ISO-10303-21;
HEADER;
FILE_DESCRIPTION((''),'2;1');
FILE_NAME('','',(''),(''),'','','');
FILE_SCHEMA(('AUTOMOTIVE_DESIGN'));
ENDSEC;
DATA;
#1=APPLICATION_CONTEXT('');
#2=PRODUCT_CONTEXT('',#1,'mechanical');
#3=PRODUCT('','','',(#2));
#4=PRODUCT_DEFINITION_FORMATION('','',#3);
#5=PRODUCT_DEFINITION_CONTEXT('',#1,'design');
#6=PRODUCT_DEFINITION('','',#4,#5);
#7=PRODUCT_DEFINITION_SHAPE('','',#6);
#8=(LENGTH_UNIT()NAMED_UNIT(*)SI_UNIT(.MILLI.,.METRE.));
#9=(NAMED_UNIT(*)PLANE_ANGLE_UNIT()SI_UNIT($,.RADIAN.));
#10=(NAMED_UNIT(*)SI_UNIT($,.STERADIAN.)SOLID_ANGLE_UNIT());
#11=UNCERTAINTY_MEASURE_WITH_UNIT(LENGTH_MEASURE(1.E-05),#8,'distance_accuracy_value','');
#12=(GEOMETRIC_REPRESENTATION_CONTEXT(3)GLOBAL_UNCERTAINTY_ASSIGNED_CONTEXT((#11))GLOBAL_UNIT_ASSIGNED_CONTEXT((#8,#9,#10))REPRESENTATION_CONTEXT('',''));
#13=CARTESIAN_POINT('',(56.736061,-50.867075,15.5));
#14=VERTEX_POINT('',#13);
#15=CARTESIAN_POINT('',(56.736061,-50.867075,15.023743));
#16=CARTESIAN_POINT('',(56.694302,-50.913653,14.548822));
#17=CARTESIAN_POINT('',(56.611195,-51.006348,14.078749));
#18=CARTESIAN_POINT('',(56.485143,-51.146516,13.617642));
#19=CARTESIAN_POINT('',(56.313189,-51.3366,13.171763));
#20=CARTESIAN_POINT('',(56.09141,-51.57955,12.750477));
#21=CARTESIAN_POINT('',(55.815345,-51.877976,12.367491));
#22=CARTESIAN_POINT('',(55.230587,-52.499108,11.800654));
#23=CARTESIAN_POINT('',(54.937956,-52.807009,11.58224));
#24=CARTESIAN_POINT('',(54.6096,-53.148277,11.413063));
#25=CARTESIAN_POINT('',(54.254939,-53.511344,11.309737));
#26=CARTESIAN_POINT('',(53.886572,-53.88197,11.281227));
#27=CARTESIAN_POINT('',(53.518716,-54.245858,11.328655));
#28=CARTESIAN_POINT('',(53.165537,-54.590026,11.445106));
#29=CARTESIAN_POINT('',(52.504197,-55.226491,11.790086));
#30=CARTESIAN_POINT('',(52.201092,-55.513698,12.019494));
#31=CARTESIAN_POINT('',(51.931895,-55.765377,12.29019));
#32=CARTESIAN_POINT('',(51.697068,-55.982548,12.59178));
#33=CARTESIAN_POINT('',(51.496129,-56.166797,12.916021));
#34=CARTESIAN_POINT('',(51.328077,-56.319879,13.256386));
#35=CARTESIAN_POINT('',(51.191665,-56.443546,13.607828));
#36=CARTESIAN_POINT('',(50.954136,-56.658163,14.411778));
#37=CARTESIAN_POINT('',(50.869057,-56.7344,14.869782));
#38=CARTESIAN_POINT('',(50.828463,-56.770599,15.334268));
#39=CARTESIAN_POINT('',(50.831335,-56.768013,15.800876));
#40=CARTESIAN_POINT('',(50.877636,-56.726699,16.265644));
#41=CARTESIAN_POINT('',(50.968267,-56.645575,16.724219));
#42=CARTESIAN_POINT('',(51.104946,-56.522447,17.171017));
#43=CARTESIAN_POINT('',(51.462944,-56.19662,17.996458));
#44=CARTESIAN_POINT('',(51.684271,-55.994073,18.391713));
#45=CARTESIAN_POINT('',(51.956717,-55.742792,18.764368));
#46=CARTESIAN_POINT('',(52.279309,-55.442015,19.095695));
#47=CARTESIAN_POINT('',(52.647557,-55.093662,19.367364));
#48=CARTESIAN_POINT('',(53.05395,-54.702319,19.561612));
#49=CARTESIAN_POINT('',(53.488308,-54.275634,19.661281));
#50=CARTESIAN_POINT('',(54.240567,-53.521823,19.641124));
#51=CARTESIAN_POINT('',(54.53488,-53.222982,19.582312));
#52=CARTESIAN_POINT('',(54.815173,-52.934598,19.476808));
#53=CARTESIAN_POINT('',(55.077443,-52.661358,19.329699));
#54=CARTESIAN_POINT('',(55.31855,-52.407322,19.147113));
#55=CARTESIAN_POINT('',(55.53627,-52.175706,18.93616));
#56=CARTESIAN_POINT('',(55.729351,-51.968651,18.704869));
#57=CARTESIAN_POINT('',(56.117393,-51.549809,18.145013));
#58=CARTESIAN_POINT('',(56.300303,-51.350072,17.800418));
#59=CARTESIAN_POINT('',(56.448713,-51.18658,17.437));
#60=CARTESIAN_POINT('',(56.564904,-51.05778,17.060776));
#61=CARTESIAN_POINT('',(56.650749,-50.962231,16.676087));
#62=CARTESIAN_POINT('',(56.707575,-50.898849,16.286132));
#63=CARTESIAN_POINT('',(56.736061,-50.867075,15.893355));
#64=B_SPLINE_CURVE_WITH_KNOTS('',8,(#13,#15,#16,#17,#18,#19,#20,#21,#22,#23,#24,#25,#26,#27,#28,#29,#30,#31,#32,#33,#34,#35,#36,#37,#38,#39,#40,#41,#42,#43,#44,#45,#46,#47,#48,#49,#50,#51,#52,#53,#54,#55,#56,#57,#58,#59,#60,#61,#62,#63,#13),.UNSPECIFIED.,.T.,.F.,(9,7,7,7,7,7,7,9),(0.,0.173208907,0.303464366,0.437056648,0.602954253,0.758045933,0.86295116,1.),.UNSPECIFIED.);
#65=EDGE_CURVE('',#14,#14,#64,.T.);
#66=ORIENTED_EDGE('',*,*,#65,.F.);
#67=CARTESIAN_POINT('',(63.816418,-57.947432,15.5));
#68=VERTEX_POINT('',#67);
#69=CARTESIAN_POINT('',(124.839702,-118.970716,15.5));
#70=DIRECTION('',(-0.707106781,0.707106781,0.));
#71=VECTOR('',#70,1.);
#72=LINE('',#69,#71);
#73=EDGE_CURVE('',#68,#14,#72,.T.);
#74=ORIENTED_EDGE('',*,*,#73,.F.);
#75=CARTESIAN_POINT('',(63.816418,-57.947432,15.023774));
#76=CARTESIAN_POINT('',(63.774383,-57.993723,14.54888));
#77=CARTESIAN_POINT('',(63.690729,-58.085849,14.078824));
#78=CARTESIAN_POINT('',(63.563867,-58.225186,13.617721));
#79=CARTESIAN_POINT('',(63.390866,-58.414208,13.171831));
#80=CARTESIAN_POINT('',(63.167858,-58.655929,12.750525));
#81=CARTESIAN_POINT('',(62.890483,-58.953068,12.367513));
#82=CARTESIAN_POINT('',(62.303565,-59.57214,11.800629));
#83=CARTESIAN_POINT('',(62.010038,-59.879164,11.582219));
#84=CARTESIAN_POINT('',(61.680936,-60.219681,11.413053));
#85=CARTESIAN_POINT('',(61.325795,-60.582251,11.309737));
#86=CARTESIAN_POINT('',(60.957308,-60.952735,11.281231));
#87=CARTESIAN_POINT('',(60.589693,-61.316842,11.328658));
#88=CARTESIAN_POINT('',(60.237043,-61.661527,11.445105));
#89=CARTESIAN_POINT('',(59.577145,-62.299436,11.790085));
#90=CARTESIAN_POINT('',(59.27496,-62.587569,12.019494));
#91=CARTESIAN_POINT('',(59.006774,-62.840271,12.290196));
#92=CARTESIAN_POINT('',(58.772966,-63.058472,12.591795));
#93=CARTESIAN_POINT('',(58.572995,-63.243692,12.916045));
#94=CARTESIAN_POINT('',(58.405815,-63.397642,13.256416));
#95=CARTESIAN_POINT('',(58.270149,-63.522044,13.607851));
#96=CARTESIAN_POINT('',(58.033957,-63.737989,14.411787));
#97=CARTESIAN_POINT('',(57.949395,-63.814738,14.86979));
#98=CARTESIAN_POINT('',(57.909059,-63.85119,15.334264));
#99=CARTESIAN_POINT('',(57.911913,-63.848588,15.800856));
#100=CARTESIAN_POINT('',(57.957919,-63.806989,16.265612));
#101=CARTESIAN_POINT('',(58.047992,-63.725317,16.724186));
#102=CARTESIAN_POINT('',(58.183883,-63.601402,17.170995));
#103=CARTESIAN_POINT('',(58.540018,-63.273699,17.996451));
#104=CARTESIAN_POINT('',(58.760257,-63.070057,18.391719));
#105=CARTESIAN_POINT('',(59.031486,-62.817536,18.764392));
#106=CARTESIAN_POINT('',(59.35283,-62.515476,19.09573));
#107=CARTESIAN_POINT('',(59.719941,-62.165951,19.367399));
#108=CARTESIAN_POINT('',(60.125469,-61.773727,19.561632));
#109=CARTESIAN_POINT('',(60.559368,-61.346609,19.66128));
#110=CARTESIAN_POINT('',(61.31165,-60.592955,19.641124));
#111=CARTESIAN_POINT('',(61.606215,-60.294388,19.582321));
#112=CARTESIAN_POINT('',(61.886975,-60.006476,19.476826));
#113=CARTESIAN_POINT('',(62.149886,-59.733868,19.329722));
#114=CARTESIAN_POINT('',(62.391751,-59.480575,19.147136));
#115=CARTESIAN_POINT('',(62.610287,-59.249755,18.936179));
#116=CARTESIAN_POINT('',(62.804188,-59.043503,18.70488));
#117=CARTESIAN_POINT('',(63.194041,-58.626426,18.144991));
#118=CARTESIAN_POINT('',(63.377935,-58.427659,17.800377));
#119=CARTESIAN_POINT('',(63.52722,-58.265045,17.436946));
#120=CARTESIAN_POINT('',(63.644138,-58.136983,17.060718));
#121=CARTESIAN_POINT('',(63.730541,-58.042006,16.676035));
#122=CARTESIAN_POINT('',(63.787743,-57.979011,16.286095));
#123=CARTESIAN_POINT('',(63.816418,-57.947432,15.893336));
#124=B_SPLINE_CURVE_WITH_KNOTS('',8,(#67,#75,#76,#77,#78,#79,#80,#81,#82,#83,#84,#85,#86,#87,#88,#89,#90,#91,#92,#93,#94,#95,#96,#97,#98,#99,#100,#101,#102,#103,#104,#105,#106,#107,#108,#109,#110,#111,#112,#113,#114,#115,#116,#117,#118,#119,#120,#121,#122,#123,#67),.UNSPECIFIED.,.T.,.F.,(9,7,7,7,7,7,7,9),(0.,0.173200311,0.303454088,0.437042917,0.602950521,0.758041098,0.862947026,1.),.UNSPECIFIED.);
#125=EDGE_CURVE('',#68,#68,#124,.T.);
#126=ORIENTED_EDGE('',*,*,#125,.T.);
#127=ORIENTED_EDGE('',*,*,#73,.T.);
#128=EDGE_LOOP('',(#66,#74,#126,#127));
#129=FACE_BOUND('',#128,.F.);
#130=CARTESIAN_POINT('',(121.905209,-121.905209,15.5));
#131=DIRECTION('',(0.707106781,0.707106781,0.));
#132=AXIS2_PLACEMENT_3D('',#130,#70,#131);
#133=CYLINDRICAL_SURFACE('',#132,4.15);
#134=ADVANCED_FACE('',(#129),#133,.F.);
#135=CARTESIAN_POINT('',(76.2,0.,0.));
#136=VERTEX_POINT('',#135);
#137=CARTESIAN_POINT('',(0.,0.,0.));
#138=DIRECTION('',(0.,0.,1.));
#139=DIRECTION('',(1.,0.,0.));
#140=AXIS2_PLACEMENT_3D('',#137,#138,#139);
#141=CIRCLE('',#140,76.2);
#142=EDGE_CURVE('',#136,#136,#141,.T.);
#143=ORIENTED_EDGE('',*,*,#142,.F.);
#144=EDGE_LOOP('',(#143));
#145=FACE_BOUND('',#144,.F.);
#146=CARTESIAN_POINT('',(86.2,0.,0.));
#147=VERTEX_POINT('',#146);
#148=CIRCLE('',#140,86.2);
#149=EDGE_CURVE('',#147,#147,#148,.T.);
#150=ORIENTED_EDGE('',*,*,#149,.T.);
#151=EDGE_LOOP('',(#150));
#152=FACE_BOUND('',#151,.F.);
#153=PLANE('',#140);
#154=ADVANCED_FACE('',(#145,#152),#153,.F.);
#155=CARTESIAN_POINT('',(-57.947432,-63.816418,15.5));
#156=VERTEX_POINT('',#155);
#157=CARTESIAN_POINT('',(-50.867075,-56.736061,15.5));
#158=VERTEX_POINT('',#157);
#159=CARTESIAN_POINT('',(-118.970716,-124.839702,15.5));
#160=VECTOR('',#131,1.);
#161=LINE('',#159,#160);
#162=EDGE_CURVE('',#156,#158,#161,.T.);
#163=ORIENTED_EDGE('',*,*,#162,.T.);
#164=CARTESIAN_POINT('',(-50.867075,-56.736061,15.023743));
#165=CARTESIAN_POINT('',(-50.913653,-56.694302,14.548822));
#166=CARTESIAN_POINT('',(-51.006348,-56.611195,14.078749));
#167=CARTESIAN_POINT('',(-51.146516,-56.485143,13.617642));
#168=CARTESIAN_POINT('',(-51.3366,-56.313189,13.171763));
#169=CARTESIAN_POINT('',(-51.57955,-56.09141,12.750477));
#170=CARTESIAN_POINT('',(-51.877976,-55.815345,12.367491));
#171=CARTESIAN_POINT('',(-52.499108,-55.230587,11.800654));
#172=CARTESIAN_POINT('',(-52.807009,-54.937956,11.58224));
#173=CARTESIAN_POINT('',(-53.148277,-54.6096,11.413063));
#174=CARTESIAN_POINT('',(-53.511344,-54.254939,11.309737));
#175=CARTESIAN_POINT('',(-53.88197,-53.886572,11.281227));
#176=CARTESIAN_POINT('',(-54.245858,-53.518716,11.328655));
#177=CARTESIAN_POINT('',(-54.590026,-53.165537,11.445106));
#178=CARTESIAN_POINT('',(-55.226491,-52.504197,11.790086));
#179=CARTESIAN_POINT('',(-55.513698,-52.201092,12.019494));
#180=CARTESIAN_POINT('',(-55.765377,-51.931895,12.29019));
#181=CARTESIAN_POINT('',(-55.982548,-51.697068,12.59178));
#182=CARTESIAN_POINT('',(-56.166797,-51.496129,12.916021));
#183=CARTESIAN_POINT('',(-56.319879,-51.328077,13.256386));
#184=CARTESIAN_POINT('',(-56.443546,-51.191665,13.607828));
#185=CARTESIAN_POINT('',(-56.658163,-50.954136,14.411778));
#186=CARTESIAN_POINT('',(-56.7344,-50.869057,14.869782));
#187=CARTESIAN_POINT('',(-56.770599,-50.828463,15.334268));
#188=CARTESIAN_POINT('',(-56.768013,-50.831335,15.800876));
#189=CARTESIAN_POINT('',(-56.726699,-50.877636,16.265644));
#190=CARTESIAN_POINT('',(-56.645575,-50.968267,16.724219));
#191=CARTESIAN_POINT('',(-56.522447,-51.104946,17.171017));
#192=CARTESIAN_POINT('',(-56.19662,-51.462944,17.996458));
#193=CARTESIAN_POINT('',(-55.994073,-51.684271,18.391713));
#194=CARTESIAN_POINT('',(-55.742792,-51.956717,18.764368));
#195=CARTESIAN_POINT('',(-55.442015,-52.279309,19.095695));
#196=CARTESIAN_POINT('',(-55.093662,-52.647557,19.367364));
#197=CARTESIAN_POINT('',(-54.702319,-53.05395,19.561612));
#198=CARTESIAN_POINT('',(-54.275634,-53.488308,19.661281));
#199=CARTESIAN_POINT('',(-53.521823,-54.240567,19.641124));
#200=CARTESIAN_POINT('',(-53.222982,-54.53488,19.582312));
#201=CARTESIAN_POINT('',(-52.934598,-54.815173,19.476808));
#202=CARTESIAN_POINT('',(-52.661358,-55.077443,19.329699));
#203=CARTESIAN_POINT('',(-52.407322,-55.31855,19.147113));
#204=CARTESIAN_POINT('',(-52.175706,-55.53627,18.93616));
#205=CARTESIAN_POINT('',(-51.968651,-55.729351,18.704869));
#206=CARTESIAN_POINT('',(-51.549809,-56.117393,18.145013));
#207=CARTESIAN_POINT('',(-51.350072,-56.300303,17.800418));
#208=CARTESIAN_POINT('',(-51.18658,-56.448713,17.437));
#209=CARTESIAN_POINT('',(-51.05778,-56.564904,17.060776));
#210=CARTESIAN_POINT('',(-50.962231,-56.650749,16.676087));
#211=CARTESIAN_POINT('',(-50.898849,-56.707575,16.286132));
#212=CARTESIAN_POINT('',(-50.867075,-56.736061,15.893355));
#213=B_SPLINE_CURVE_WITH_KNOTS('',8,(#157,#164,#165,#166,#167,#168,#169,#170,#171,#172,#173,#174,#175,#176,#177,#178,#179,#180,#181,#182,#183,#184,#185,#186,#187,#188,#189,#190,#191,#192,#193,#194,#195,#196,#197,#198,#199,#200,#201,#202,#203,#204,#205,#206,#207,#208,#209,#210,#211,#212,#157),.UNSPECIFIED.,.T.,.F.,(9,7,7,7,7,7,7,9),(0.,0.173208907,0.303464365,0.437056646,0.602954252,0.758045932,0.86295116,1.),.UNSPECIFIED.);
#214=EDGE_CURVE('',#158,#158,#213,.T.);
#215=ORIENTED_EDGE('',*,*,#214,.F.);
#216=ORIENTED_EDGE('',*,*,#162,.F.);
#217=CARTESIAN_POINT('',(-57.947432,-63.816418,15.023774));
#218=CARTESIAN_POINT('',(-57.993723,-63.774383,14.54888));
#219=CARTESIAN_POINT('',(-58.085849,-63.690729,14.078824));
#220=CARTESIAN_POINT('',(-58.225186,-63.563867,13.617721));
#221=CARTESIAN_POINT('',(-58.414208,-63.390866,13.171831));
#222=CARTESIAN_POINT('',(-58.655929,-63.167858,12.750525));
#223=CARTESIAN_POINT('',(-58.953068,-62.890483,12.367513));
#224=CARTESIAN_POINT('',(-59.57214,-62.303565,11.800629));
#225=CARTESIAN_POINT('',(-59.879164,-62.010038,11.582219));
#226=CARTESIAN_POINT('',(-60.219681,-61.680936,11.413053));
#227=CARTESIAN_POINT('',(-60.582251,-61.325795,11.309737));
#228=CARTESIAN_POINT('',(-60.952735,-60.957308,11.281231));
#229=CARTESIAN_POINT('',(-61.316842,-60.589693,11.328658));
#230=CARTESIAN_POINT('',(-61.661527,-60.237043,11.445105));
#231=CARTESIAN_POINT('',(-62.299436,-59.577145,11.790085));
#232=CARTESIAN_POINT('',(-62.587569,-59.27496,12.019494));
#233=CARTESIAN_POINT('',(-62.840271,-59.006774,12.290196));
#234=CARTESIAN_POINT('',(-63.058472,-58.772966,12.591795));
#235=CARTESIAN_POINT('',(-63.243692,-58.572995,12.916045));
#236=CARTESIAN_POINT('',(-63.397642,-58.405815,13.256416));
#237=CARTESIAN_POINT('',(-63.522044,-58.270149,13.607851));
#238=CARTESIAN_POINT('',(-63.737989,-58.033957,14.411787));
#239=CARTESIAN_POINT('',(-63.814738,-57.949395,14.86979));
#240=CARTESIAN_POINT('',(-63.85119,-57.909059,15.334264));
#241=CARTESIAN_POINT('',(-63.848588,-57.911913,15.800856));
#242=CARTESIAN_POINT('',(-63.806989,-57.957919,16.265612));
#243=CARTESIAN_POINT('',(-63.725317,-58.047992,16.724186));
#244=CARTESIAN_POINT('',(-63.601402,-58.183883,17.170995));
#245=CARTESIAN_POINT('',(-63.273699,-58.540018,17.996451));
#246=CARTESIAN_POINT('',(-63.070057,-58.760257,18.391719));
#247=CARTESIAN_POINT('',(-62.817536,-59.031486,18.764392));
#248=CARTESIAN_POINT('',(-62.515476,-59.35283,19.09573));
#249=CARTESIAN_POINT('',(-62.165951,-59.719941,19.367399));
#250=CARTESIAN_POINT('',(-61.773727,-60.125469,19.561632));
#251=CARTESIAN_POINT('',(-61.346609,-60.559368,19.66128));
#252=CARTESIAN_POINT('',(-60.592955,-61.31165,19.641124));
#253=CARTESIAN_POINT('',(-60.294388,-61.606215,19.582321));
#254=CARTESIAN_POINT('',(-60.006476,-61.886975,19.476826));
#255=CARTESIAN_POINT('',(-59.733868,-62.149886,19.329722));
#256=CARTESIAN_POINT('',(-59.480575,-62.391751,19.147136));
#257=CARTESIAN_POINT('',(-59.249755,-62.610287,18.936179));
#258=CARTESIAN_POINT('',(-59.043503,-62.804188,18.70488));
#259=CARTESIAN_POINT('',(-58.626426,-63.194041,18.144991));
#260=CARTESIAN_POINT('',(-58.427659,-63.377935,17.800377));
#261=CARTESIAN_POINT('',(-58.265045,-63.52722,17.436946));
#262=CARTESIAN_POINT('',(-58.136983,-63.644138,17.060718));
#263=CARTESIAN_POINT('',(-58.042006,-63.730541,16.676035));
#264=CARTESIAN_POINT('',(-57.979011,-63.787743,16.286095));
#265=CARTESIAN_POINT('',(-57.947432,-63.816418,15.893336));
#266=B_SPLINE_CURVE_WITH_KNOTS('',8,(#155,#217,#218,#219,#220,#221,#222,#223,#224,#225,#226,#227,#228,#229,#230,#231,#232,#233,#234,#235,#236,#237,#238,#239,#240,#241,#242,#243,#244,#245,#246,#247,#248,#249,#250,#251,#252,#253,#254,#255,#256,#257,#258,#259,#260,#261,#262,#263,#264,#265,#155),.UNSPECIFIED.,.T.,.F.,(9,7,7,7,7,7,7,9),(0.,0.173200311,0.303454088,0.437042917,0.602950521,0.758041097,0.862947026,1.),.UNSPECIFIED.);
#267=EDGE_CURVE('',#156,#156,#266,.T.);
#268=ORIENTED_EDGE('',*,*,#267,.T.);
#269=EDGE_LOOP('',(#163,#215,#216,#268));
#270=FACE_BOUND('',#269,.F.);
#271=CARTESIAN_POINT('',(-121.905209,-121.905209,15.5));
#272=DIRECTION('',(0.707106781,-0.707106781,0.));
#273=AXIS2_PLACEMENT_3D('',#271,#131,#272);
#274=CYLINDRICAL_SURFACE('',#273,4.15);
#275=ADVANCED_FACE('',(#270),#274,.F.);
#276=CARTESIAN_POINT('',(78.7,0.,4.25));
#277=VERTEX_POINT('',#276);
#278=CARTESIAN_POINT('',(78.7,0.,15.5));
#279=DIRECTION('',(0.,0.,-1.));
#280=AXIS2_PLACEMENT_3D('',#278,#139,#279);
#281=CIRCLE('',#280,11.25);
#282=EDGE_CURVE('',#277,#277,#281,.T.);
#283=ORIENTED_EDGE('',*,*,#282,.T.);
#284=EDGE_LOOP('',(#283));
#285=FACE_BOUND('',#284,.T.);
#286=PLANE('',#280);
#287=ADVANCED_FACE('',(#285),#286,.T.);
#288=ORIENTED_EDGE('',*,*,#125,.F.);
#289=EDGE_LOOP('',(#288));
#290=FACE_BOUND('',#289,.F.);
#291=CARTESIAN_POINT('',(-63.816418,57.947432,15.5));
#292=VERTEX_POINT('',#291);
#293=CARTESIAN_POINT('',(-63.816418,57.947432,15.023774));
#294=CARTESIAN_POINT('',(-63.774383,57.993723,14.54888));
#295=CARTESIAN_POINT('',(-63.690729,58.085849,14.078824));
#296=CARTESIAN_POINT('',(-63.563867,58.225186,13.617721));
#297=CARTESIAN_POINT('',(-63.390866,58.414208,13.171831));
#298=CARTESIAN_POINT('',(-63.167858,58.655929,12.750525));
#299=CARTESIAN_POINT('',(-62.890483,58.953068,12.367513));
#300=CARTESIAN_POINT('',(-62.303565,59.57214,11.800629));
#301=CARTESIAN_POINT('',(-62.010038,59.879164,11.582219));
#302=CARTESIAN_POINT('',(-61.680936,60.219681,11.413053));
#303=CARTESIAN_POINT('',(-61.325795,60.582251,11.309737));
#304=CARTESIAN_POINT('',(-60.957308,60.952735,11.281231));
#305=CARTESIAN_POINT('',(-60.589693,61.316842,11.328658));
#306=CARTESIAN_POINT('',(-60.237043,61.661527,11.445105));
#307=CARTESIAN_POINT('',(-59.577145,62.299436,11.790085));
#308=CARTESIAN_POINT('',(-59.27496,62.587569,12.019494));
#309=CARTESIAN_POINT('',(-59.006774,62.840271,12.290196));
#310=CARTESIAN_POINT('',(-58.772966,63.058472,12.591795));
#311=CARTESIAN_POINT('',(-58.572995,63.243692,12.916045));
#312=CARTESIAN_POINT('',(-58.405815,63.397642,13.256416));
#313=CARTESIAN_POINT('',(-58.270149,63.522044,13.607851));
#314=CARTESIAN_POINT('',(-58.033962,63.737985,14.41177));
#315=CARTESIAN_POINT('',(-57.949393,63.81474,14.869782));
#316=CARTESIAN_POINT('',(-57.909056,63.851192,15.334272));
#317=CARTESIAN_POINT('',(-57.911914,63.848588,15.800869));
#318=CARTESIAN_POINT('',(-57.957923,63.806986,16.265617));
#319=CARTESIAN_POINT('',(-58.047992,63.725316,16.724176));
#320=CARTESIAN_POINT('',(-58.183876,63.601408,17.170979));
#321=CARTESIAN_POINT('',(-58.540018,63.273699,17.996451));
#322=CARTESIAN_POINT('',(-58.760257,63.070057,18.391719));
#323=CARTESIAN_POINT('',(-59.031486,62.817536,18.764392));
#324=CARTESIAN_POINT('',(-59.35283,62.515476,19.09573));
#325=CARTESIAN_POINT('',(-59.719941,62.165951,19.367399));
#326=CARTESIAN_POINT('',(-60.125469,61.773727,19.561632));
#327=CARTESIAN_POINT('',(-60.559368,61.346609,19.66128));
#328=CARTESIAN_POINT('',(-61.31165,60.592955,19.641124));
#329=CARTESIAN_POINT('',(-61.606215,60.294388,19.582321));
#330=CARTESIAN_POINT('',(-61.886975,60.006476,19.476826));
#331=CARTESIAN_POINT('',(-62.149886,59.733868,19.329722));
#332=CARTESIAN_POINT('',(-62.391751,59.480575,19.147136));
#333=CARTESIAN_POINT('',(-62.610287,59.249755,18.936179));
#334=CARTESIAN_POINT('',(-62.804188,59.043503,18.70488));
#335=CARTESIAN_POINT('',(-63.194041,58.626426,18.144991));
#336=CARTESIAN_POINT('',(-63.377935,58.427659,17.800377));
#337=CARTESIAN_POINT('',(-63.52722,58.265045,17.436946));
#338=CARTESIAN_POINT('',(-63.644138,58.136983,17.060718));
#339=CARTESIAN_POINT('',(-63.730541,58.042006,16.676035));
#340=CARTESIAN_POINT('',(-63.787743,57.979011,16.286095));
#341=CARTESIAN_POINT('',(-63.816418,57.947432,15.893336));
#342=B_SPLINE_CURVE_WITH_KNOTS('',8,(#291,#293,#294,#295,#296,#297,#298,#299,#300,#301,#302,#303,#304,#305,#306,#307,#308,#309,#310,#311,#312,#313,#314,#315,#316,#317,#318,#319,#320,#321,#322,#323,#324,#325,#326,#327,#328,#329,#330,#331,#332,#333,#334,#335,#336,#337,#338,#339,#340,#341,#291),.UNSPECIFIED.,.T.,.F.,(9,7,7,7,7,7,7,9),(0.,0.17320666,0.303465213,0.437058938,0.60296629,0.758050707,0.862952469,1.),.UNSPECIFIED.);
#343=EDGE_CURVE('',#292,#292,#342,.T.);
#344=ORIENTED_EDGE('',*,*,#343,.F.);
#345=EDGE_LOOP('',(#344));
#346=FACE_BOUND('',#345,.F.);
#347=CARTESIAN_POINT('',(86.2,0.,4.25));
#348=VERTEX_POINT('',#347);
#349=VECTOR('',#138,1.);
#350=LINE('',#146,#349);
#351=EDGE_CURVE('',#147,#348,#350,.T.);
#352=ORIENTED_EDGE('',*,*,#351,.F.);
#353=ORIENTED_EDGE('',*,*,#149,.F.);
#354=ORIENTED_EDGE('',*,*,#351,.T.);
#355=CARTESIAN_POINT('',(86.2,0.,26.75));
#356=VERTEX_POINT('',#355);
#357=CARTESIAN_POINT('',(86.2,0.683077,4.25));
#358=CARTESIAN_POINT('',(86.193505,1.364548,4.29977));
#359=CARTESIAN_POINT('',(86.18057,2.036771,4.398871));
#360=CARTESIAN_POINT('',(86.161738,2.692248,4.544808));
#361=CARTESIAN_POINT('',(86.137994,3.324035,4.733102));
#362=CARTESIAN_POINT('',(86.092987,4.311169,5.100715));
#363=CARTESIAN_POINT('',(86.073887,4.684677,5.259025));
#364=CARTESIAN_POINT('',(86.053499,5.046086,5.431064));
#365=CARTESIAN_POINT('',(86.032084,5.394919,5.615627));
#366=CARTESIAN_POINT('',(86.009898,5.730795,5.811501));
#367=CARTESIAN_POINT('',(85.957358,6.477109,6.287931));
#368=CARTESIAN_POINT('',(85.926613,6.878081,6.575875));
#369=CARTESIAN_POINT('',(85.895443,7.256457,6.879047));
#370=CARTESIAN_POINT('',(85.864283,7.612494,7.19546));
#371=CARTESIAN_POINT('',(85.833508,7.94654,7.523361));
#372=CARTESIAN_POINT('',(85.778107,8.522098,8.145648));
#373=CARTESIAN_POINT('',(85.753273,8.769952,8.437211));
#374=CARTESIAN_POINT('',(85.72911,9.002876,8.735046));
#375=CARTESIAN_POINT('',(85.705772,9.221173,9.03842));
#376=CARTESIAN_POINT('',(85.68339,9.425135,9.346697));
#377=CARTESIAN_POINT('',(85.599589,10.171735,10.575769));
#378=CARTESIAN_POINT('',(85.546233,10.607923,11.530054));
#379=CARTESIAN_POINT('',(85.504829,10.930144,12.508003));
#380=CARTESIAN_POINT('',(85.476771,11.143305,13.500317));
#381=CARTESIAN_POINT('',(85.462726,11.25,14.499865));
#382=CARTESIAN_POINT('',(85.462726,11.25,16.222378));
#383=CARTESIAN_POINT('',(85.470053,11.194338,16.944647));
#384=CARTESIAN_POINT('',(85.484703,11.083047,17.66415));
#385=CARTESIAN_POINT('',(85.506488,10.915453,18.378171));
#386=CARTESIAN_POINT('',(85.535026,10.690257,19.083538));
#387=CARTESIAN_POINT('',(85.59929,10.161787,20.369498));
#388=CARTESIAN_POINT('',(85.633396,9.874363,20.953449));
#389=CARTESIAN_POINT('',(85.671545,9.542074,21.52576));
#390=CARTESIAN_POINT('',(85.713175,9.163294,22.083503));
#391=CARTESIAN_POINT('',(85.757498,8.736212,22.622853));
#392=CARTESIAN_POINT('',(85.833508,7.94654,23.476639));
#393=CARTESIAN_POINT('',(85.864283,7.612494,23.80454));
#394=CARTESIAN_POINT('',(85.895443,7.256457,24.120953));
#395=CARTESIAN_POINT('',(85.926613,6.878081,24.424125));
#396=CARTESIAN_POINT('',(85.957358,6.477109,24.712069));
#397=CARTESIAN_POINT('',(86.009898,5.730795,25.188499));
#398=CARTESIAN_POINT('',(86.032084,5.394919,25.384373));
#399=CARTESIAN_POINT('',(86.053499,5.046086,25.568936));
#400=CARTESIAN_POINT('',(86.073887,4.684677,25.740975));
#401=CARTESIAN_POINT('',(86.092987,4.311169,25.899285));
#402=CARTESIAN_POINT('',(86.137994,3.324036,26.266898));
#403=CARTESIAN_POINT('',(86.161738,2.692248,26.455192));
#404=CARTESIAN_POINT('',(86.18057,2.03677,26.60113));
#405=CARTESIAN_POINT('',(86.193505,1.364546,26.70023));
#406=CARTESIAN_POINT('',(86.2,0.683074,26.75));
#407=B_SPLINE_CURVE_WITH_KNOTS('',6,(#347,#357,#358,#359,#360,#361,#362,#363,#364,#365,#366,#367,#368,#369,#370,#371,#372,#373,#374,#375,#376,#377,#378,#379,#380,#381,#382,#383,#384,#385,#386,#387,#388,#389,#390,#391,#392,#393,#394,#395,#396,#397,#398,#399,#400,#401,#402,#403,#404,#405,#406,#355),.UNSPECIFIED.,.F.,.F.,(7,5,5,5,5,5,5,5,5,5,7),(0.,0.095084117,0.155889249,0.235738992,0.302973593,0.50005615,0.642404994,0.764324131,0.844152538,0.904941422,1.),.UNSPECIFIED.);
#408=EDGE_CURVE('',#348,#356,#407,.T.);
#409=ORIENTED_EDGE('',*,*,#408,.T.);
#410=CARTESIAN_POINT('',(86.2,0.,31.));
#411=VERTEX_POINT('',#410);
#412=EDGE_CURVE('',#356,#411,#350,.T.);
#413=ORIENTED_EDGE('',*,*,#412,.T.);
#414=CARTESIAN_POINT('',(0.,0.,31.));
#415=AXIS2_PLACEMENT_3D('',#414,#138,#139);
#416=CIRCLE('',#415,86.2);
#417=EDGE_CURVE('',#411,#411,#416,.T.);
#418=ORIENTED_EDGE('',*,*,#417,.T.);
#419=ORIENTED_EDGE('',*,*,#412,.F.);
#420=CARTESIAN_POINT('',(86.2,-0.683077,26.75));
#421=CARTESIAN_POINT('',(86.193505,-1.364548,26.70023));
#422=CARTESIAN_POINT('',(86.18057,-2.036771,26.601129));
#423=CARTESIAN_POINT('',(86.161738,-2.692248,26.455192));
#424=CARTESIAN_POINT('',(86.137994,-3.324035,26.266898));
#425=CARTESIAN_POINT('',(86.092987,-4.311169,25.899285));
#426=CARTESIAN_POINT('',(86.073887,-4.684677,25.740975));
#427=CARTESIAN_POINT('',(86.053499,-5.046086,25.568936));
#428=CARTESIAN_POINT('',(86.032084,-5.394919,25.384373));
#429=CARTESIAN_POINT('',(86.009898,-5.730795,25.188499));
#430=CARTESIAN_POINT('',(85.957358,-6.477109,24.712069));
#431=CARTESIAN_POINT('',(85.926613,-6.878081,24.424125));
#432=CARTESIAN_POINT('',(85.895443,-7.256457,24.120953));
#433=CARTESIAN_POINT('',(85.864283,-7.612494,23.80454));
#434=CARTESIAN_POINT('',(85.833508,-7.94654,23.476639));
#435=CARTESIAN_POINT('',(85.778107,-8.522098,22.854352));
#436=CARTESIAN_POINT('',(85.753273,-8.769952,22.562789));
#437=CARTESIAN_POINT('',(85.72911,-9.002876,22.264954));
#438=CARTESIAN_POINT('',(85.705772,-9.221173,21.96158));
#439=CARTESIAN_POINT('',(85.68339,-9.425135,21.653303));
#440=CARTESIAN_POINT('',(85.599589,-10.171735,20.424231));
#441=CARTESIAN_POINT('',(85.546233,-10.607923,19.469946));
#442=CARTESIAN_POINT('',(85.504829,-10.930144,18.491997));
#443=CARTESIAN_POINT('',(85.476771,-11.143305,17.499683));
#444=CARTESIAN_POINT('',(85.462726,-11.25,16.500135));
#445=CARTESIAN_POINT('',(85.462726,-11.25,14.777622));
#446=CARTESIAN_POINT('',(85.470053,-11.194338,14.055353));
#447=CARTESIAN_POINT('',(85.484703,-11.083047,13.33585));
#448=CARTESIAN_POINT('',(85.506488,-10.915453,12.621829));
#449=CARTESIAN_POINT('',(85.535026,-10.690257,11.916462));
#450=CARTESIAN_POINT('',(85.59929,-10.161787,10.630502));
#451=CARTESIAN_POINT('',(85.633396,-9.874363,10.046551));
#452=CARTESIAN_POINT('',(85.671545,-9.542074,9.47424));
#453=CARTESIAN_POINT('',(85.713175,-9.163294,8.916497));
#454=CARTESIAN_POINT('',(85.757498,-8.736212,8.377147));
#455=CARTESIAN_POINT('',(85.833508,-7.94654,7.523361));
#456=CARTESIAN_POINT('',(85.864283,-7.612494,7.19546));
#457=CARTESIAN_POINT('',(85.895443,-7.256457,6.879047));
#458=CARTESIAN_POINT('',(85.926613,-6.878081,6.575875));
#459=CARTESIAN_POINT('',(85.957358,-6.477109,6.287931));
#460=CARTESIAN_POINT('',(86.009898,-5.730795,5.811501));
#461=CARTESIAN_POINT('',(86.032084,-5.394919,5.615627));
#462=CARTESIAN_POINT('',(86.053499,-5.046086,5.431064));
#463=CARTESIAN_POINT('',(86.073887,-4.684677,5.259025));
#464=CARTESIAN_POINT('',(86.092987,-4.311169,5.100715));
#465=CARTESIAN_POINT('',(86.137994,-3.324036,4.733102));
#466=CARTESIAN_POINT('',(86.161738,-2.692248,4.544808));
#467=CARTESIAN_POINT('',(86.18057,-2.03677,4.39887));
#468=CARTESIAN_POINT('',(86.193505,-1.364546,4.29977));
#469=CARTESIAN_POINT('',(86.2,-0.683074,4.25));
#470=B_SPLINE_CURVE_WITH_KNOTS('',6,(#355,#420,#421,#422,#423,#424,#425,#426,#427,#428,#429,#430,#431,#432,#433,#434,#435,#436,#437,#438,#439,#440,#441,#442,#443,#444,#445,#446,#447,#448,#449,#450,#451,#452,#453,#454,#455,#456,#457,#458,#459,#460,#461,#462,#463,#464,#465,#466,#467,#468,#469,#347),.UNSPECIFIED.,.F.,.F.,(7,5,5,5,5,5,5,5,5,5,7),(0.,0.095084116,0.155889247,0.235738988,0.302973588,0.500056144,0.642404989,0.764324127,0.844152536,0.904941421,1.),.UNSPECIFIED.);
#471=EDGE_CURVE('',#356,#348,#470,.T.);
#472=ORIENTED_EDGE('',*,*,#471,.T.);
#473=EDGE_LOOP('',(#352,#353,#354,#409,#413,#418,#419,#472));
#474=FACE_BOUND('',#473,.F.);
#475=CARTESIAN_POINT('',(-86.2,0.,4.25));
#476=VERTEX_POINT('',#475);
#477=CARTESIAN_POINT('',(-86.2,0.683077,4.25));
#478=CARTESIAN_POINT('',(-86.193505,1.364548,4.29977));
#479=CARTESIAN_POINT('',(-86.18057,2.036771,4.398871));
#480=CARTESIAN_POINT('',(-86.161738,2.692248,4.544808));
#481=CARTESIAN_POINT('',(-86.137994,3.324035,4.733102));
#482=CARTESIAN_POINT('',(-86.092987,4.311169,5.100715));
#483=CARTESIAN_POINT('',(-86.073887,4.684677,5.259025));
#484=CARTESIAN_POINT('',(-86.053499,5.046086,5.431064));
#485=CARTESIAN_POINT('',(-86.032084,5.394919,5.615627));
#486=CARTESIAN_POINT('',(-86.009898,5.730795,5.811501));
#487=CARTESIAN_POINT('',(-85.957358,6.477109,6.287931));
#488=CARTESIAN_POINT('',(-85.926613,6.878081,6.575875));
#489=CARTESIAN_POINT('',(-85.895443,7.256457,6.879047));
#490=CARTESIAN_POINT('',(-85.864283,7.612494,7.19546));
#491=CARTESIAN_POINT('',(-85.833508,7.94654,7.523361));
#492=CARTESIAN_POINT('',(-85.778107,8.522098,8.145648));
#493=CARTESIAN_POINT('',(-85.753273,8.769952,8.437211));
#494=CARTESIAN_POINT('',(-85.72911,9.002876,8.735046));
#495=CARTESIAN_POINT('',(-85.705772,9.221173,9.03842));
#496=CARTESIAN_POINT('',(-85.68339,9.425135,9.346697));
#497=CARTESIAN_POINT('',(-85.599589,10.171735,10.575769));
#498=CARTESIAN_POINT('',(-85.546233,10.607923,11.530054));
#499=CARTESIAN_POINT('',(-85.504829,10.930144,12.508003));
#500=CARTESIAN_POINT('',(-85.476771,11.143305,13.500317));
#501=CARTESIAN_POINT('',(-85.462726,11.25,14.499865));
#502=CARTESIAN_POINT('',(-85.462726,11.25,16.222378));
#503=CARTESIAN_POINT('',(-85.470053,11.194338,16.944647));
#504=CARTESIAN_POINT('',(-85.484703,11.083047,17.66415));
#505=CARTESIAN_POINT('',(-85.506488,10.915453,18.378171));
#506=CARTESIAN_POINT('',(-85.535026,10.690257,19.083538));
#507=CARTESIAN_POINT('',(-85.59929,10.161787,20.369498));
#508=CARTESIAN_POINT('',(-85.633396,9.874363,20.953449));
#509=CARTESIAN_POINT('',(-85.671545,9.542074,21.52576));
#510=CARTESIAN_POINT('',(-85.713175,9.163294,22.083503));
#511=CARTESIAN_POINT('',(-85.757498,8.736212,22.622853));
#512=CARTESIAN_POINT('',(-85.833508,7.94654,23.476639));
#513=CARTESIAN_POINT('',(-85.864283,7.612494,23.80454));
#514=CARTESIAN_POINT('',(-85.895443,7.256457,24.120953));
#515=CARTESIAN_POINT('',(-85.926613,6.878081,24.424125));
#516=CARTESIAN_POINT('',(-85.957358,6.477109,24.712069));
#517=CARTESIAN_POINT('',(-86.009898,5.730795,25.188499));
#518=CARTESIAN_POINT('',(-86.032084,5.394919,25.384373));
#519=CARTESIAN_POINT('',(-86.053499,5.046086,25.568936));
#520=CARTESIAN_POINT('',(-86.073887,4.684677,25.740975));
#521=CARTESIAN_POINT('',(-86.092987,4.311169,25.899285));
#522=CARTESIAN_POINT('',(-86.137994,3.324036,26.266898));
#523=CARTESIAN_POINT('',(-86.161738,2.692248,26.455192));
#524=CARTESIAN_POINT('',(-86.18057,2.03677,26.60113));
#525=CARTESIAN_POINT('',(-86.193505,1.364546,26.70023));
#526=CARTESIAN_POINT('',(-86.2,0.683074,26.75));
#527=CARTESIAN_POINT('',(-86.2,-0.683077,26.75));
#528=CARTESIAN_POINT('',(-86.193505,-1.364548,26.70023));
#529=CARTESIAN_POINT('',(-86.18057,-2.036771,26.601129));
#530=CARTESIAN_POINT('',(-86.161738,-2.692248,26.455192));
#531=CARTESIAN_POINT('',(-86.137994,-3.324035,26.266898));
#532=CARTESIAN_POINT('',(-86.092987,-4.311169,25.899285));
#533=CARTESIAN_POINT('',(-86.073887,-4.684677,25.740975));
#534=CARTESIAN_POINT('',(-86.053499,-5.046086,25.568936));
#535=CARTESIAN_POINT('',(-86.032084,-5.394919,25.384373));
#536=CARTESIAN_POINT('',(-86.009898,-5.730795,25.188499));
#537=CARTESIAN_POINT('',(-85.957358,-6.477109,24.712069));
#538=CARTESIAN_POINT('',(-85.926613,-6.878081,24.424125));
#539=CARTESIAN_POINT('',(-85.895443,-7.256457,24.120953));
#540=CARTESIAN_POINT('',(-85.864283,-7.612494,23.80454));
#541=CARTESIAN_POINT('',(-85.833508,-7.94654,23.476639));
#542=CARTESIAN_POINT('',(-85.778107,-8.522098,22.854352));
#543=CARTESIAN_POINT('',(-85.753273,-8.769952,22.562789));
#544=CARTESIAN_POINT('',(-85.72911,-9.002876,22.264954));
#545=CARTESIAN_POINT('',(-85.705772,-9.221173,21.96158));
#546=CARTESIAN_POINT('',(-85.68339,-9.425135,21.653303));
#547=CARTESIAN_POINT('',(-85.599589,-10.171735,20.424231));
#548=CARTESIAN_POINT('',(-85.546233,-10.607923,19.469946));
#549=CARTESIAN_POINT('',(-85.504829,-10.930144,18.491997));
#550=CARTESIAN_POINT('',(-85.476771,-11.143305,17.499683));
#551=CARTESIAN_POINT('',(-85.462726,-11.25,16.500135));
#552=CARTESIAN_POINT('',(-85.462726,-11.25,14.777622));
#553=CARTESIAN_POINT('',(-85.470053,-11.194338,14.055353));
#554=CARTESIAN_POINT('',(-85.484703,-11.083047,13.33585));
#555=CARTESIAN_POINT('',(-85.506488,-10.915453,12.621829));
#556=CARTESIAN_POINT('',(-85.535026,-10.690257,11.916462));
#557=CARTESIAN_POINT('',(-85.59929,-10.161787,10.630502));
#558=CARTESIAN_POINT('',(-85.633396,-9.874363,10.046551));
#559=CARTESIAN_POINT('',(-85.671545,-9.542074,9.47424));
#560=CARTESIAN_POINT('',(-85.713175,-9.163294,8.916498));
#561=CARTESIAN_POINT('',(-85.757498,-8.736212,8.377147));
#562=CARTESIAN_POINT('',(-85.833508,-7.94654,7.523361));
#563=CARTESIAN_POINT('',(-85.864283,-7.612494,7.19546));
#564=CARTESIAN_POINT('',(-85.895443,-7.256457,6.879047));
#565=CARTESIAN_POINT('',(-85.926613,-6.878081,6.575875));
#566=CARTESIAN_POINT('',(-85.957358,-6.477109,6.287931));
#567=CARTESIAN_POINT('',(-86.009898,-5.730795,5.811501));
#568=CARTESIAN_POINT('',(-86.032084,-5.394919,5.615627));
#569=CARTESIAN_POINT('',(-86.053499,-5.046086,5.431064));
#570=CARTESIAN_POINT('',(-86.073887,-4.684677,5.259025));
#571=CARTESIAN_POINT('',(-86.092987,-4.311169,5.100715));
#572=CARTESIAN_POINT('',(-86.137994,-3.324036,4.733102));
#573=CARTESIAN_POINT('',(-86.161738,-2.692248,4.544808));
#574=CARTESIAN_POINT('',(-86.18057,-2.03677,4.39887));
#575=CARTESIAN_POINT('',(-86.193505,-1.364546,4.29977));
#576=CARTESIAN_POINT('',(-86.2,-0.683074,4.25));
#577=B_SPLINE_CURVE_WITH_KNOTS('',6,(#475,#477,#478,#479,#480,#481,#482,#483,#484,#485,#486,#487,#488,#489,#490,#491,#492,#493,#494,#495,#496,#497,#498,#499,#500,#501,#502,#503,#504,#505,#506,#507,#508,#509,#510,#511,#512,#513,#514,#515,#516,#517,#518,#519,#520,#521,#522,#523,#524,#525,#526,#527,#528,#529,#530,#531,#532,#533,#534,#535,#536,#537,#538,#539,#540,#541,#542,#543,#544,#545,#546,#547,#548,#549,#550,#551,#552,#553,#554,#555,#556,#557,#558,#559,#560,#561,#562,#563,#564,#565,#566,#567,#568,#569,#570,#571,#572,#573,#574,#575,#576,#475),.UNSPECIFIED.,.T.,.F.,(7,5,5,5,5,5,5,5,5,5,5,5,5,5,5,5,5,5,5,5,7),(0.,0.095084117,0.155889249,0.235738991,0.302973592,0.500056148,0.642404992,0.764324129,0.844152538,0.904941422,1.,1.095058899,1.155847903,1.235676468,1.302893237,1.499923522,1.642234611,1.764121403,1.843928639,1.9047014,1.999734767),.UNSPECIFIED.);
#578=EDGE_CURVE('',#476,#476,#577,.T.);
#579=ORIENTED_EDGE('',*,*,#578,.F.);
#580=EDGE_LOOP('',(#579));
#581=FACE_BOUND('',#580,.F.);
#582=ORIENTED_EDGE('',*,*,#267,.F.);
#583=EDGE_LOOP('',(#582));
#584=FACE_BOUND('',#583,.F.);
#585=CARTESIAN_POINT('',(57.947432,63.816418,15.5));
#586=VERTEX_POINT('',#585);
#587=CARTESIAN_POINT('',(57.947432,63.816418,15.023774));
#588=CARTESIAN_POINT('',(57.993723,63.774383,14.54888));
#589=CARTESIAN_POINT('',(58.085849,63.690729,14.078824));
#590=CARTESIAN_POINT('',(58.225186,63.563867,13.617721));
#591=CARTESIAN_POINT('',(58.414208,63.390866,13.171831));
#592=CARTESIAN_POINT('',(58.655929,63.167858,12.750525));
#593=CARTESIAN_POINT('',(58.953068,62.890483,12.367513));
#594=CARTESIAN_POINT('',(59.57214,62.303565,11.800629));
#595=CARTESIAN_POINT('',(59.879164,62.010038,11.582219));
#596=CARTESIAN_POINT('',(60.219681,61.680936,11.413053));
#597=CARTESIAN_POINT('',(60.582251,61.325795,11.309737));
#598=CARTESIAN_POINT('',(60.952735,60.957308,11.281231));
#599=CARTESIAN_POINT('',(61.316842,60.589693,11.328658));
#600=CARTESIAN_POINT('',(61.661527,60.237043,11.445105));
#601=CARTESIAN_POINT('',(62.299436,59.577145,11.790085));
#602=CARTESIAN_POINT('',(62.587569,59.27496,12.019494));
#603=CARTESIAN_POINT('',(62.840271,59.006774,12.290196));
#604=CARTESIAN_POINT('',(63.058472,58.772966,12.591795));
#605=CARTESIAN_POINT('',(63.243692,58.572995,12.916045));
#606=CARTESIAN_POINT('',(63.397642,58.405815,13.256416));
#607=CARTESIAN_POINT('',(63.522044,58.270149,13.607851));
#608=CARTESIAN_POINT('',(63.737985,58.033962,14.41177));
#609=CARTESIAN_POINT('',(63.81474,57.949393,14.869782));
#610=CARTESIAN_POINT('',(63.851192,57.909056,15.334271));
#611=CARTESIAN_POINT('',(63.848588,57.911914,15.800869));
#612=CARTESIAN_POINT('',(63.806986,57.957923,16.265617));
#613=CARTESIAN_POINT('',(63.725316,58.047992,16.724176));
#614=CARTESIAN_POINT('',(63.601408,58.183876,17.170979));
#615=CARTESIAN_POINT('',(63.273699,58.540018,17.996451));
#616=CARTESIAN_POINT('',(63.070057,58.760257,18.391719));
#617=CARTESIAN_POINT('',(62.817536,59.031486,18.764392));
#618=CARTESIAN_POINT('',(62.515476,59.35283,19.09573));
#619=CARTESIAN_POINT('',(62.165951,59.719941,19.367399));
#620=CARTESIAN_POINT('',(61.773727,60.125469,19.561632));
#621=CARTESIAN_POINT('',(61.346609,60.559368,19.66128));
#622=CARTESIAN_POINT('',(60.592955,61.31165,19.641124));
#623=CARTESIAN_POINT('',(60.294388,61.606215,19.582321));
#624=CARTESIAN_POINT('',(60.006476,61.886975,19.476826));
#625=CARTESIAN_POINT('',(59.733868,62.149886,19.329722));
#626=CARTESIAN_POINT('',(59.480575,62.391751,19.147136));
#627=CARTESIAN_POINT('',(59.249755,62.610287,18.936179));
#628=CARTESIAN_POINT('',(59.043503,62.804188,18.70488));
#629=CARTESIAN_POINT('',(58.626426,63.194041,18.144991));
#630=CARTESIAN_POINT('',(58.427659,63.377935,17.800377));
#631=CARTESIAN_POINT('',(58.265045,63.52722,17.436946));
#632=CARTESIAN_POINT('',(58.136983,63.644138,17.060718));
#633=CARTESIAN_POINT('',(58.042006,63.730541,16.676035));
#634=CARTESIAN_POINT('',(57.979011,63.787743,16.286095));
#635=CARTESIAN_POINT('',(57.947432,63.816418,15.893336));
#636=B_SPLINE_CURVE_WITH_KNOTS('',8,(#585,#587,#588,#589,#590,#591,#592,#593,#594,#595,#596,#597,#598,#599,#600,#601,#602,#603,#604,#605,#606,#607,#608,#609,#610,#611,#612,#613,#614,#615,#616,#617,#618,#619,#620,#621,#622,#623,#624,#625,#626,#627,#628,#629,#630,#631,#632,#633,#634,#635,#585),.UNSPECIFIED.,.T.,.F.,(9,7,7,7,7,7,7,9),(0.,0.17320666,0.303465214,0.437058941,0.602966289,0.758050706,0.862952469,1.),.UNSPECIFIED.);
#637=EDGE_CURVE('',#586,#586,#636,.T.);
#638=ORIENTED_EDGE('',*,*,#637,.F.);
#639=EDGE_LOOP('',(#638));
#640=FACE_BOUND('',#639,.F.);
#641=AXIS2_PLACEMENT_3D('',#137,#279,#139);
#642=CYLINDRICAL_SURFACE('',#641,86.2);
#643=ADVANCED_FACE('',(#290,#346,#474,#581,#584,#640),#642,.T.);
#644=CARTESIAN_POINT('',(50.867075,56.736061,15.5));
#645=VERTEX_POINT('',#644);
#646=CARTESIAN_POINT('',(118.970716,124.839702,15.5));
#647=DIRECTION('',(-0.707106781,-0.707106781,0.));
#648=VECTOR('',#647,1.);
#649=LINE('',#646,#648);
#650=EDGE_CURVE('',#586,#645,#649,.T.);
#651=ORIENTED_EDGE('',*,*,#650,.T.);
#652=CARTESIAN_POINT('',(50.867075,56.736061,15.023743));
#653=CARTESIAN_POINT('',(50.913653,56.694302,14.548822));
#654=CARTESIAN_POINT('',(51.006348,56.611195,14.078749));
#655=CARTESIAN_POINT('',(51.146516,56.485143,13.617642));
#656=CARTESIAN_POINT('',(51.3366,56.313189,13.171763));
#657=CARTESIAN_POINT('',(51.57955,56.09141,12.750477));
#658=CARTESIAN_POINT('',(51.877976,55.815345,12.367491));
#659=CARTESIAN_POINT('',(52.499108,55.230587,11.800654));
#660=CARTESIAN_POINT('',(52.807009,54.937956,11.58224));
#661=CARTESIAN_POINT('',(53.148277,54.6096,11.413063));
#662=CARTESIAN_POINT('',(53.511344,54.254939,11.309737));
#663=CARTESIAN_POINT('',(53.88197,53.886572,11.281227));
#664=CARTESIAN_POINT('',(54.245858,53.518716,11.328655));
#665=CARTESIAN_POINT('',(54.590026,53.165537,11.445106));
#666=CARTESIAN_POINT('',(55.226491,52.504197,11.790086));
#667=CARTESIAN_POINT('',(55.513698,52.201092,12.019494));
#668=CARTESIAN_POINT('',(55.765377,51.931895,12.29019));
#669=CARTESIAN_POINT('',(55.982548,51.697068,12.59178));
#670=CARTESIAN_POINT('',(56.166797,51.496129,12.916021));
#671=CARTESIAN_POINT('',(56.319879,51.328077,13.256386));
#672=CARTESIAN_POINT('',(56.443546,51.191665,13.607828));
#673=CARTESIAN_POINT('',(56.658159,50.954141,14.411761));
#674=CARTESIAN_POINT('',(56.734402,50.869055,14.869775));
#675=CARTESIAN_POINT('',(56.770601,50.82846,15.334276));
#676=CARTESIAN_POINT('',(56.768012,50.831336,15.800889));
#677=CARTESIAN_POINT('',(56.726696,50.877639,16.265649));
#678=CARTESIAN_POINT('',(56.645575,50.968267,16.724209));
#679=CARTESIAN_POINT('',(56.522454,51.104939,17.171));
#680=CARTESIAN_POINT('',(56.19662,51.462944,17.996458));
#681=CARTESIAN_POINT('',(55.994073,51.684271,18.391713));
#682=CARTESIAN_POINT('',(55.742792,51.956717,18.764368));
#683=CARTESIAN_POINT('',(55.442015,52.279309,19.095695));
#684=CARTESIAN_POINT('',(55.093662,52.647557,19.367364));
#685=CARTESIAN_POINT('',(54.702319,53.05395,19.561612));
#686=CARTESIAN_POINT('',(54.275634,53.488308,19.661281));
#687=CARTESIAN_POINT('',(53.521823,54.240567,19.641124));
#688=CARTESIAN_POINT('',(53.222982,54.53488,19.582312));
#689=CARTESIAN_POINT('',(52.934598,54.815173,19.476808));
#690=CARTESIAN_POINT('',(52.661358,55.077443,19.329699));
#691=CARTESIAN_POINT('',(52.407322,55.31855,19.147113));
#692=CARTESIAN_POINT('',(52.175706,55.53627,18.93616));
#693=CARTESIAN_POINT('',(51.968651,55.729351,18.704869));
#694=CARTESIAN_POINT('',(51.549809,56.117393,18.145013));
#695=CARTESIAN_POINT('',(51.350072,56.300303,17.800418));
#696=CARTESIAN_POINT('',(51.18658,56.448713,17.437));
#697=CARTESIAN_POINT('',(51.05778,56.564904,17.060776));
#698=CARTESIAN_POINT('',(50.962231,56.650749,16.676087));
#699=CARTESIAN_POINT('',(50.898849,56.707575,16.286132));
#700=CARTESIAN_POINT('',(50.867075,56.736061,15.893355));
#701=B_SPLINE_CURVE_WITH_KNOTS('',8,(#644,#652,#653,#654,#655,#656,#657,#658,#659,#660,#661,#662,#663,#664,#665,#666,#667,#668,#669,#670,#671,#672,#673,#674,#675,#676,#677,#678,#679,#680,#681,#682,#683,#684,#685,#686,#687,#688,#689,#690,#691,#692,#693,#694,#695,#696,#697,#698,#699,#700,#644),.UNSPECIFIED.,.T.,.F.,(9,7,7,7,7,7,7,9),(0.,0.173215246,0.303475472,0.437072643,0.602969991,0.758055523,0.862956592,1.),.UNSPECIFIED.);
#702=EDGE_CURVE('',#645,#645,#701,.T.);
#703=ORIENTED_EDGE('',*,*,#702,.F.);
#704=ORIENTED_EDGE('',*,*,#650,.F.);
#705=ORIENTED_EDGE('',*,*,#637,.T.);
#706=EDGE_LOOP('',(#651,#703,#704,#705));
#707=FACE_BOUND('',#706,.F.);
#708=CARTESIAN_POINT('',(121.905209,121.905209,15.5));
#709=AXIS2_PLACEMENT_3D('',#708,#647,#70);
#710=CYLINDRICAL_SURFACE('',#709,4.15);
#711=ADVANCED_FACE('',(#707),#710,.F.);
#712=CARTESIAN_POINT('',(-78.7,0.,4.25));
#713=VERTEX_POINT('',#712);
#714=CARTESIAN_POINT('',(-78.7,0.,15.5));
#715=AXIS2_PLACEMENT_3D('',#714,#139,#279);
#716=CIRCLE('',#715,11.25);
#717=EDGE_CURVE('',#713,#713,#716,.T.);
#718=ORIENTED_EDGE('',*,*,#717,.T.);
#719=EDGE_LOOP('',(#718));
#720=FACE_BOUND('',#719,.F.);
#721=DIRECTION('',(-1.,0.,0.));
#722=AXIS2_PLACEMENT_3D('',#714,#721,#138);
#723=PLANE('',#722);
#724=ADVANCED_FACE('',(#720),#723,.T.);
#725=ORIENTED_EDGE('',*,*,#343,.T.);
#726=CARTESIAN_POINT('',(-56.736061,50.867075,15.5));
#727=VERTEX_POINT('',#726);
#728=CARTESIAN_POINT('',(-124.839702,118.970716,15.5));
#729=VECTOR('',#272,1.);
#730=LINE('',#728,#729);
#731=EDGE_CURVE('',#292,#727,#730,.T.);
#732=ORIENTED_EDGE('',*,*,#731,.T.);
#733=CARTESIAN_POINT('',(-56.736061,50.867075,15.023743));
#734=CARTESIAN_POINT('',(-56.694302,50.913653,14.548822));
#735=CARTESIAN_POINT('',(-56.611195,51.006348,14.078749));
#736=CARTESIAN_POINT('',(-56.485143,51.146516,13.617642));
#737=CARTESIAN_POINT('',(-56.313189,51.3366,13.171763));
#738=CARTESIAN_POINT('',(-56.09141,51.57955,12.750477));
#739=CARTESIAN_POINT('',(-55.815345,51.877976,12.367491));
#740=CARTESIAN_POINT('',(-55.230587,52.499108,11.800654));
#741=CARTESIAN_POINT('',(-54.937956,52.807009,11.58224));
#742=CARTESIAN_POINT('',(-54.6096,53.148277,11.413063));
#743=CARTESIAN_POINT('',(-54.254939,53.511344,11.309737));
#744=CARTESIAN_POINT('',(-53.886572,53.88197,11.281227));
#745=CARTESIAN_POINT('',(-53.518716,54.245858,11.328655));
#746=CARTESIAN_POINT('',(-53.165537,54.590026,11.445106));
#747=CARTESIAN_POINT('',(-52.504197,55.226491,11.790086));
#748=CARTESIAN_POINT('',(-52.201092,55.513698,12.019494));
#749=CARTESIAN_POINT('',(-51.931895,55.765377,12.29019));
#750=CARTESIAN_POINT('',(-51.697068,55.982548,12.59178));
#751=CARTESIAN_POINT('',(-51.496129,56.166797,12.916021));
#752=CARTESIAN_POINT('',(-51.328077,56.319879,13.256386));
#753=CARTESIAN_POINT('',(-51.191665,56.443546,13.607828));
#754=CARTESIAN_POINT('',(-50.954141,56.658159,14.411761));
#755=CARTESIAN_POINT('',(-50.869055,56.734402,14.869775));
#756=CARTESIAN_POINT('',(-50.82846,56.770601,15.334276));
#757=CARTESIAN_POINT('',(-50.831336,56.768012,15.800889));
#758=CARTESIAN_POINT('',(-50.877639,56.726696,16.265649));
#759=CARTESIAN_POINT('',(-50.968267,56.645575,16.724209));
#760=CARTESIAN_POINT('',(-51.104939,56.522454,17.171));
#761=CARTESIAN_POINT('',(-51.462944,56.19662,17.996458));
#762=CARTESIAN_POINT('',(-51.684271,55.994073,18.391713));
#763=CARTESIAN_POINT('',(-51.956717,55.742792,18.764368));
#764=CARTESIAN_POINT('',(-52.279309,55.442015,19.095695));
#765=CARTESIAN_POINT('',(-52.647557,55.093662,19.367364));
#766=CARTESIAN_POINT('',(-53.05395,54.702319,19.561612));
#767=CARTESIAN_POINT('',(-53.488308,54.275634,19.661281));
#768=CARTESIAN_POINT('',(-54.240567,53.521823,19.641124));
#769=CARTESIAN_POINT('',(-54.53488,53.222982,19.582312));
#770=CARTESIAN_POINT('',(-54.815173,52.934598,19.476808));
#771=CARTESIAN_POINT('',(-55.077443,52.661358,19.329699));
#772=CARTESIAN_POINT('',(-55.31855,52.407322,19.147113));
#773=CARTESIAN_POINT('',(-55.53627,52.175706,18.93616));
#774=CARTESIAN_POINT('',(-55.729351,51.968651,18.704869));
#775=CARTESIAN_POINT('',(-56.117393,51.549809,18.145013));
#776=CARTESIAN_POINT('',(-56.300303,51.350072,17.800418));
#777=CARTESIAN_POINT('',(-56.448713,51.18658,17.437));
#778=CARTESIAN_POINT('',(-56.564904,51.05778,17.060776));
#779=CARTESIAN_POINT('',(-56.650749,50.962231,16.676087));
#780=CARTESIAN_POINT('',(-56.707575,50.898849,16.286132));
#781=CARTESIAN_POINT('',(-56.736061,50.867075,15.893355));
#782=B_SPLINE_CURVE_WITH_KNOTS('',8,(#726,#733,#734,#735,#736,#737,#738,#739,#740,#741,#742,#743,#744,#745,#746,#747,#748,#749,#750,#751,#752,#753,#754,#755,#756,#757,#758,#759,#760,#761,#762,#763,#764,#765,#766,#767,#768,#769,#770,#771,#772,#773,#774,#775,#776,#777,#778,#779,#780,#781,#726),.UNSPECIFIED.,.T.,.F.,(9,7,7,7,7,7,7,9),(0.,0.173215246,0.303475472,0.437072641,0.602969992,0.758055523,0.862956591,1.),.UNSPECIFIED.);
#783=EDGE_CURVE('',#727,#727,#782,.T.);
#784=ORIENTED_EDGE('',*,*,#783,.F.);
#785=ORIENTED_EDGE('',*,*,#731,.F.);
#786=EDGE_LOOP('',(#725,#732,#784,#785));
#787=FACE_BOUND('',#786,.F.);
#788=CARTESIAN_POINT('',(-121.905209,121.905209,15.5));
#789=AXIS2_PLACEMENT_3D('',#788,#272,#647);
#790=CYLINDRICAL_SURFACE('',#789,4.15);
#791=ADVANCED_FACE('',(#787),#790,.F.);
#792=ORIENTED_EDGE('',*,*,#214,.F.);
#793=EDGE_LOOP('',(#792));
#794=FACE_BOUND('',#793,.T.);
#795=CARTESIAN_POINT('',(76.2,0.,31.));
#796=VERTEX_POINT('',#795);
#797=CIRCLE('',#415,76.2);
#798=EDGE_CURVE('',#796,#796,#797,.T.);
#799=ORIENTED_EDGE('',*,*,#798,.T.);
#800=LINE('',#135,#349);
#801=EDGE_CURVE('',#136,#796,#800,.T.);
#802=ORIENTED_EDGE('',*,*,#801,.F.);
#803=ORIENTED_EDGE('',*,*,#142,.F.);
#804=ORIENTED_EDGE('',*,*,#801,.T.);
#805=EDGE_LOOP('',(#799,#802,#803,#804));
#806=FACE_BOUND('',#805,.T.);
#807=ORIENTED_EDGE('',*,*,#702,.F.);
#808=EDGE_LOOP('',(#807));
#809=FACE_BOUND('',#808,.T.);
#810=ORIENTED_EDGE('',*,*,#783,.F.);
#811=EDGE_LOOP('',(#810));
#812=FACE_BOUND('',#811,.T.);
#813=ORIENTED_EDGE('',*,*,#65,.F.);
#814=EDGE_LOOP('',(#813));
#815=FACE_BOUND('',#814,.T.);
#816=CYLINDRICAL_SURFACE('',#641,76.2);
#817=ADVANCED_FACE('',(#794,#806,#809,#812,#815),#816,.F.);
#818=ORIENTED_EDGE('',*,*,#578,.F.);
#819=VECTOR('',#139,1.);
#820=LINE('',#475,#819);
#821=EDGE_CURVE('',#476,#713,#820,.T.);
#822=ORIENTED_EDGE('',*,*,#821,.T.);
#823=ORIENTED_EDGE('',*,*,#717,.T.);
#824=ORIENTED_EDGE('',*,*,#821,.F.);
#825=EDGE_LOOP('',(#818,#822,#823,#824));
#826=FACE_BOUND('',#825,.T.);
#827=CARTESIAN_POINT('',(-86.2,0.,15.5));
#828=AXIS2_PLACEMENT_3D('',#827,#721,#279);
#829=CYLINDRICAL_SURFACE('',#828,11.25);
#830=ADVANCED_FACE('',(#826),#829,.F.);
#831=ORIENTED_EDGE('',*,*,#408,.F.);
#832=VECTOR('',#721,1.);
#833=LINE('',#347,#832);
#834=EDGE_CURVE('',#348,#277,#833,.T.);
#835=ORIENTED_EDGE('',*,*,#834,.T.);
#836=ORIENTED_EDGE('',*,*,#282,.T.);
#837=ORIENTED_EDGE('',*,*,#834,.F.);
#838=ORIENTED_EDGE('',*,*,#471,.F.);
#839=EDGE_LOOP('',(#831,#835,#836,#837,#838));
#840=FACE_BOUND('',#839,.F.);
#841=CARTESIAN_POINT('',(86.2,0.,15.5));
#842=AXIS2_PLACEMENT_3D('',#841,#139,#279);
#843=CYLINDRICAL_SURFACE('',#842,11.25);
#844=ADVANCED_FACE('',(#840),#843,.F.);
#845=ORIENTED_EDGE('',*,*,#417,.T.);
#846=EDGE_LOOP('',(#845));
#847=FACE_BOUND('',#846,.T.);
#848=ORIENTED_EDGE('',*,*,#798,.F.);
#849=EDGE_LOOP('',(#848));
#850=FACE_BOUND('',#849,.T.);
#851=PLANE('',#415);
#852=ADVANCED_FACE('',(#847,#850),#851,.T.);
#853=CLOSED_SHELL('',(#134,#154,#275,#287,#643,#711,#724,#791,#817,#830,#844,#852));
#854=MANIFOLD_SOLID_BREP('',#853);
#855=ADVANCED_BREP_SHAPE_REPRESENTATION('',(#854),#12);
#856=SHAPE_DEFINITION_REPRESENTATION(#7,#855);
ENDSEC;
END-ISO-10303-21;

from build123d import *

# Parameters (mm, degrees)
ESBO_O2_R                                      = 86.2
ESBO_O2_R_2                                    = 76.2
RESSALTO_EXTRUS_O1_DEPTH                       = 31
FURO_ROSCADO_PARA_CONDU_TE_DE_M8X1_252_D       = 8.3
FURO_ROSCADO_PARA_CONDU_TE_DE_M8X1_252_DEPTH   = 86.2
FURO_ROSCADO_PARA_CONDU_TE_DE_M8X1_252_O_D     = 8.3
FURO_ROSCADO_PARA_CONDU_TE_DE_M8X1_252_O_DEPTH = 86.2
FURO_ROSCADO_PARA_CONDU_TE_DE_M8X1_2_2_D       = 8.3
FURO_ROSCADO_PARA_CONDU_TE_DE_M8X1_2_2_DEPTH   = 86.2
FURO_ROSCADO_PARA_CONDU_TE_DE_M8X1_2_3_D       = 8.3
FURO_ROSCADO_PARA_CONDU_TE_DE_M8X1_2_3_DEPTH   = 86.2
ESBO_O11_R                                     = 11.25
CORTE_EXTRUS_O1_DEPTH                          = 7.5


with BuildPart() as part:
    # Esboço2 → Ressalto-extrusão1 (new body)
    with BuildSketch(Plane.XY):
        Circle(ESBO_O2_R)
        Circle(ESBO_O2_R_2, mode=Mode.SUBTRACT)
    extrude(amount=RESSALTO_EXTRUS_O1_DEPTH)

    # Furo roscado para conduíte de M8x1.252
    with Locations(Plane(origin=(60.952604538, -60.952604538, 15.5), x_dir=(-0.707106781187, -0.707106781187, 0), z_dir=(0.707106781187, -0.707106781187, 0))):
        with Locations((0, 0)):
            Hole(FURO_ROSCADO_PARA_CONDU_TE_DE_M8X1_252_D / 2, depth=FURO_ROSCADO_PARA_CONDU_TE_DE_M8X1_252_DEPTH)

    # Furo roscado para conduíte de M8x1.252 o
    with Locations(Plane(origin=(-60.952604538, 60.952604538, 15.5), x_dir=(0.707106781187, 0.707106781187, 0), z_dir=(-0.707106781187, 0.707106781187, 0))):
        with Locations((0, 0)):
            Hole(FURO_ROSCADO_PARA_CONDU_TE_DE_M8X1_252_O_D / 2, depth=FURO_ROSCADO_PARA_CONDU_TE_DE_M8X1_252_O_DEPTH)

    # Furo roscado para condu_te de M8x1.2 2
    with Locations(Plane(origin=(60.952604538, 60.952604538, 15.5), x_dir=(0.707106781187, -0.707106781187, 0), z_dir=(0.707106781187, 0.707106781187, 0))):
        with Locations((0, 0)):
            Hole(FURO_ROSCADO_PARA_CONDU_TE_DE_M8X1_2_2_D / 2, depth=FURO_ROSCADO_PARA_CONDU_TE_DE_M8X1_2_2_DEPTH)

    # Furo roscado para condu_te de M8x1.2 3
    with Locations(Plane(origin=(-60.952604538, -60.952604538, 15.5), x_dir=(-0.707106781187, 0.707106781187, 0), z_dir=(-0.707106781187, -0.707106781187, 0))):
        with Locations((0, 0)):
            Hole(FURO_ROSCADO_PARA_CONDU_TE_DE_M8X1_2_3_D / 2, depth=FURO_ROSCADO_PARA_CONDU_TE_DE_M8X1_2_3_DEPTH)

    # Esboço11 → Corte-extrusão1 (cut)
    with BuildSketch(Plane(origin=(86.2, 0, 0), x_dir=(0, 0, -1), z_dir=(1, 0, 0))):
        with Locations((-15.5, 0)):
            Circle(ESBO_O11_R)
    corte_extrus_o1 = extrude(amount=-CORTE_EXTRUS_O1_DEPTH, mode=Mode.SUBTRACT)

    # Espelhar1: Corte-extrusão1 across plane
    add(corte_extrus_o1.mirror(Plane(origin=(0, 0, 0), x_dir=(0, 0, 1), z_dir=(1, 0, 0))), mode=Mode.SUBTRACT)


solid = part.part
